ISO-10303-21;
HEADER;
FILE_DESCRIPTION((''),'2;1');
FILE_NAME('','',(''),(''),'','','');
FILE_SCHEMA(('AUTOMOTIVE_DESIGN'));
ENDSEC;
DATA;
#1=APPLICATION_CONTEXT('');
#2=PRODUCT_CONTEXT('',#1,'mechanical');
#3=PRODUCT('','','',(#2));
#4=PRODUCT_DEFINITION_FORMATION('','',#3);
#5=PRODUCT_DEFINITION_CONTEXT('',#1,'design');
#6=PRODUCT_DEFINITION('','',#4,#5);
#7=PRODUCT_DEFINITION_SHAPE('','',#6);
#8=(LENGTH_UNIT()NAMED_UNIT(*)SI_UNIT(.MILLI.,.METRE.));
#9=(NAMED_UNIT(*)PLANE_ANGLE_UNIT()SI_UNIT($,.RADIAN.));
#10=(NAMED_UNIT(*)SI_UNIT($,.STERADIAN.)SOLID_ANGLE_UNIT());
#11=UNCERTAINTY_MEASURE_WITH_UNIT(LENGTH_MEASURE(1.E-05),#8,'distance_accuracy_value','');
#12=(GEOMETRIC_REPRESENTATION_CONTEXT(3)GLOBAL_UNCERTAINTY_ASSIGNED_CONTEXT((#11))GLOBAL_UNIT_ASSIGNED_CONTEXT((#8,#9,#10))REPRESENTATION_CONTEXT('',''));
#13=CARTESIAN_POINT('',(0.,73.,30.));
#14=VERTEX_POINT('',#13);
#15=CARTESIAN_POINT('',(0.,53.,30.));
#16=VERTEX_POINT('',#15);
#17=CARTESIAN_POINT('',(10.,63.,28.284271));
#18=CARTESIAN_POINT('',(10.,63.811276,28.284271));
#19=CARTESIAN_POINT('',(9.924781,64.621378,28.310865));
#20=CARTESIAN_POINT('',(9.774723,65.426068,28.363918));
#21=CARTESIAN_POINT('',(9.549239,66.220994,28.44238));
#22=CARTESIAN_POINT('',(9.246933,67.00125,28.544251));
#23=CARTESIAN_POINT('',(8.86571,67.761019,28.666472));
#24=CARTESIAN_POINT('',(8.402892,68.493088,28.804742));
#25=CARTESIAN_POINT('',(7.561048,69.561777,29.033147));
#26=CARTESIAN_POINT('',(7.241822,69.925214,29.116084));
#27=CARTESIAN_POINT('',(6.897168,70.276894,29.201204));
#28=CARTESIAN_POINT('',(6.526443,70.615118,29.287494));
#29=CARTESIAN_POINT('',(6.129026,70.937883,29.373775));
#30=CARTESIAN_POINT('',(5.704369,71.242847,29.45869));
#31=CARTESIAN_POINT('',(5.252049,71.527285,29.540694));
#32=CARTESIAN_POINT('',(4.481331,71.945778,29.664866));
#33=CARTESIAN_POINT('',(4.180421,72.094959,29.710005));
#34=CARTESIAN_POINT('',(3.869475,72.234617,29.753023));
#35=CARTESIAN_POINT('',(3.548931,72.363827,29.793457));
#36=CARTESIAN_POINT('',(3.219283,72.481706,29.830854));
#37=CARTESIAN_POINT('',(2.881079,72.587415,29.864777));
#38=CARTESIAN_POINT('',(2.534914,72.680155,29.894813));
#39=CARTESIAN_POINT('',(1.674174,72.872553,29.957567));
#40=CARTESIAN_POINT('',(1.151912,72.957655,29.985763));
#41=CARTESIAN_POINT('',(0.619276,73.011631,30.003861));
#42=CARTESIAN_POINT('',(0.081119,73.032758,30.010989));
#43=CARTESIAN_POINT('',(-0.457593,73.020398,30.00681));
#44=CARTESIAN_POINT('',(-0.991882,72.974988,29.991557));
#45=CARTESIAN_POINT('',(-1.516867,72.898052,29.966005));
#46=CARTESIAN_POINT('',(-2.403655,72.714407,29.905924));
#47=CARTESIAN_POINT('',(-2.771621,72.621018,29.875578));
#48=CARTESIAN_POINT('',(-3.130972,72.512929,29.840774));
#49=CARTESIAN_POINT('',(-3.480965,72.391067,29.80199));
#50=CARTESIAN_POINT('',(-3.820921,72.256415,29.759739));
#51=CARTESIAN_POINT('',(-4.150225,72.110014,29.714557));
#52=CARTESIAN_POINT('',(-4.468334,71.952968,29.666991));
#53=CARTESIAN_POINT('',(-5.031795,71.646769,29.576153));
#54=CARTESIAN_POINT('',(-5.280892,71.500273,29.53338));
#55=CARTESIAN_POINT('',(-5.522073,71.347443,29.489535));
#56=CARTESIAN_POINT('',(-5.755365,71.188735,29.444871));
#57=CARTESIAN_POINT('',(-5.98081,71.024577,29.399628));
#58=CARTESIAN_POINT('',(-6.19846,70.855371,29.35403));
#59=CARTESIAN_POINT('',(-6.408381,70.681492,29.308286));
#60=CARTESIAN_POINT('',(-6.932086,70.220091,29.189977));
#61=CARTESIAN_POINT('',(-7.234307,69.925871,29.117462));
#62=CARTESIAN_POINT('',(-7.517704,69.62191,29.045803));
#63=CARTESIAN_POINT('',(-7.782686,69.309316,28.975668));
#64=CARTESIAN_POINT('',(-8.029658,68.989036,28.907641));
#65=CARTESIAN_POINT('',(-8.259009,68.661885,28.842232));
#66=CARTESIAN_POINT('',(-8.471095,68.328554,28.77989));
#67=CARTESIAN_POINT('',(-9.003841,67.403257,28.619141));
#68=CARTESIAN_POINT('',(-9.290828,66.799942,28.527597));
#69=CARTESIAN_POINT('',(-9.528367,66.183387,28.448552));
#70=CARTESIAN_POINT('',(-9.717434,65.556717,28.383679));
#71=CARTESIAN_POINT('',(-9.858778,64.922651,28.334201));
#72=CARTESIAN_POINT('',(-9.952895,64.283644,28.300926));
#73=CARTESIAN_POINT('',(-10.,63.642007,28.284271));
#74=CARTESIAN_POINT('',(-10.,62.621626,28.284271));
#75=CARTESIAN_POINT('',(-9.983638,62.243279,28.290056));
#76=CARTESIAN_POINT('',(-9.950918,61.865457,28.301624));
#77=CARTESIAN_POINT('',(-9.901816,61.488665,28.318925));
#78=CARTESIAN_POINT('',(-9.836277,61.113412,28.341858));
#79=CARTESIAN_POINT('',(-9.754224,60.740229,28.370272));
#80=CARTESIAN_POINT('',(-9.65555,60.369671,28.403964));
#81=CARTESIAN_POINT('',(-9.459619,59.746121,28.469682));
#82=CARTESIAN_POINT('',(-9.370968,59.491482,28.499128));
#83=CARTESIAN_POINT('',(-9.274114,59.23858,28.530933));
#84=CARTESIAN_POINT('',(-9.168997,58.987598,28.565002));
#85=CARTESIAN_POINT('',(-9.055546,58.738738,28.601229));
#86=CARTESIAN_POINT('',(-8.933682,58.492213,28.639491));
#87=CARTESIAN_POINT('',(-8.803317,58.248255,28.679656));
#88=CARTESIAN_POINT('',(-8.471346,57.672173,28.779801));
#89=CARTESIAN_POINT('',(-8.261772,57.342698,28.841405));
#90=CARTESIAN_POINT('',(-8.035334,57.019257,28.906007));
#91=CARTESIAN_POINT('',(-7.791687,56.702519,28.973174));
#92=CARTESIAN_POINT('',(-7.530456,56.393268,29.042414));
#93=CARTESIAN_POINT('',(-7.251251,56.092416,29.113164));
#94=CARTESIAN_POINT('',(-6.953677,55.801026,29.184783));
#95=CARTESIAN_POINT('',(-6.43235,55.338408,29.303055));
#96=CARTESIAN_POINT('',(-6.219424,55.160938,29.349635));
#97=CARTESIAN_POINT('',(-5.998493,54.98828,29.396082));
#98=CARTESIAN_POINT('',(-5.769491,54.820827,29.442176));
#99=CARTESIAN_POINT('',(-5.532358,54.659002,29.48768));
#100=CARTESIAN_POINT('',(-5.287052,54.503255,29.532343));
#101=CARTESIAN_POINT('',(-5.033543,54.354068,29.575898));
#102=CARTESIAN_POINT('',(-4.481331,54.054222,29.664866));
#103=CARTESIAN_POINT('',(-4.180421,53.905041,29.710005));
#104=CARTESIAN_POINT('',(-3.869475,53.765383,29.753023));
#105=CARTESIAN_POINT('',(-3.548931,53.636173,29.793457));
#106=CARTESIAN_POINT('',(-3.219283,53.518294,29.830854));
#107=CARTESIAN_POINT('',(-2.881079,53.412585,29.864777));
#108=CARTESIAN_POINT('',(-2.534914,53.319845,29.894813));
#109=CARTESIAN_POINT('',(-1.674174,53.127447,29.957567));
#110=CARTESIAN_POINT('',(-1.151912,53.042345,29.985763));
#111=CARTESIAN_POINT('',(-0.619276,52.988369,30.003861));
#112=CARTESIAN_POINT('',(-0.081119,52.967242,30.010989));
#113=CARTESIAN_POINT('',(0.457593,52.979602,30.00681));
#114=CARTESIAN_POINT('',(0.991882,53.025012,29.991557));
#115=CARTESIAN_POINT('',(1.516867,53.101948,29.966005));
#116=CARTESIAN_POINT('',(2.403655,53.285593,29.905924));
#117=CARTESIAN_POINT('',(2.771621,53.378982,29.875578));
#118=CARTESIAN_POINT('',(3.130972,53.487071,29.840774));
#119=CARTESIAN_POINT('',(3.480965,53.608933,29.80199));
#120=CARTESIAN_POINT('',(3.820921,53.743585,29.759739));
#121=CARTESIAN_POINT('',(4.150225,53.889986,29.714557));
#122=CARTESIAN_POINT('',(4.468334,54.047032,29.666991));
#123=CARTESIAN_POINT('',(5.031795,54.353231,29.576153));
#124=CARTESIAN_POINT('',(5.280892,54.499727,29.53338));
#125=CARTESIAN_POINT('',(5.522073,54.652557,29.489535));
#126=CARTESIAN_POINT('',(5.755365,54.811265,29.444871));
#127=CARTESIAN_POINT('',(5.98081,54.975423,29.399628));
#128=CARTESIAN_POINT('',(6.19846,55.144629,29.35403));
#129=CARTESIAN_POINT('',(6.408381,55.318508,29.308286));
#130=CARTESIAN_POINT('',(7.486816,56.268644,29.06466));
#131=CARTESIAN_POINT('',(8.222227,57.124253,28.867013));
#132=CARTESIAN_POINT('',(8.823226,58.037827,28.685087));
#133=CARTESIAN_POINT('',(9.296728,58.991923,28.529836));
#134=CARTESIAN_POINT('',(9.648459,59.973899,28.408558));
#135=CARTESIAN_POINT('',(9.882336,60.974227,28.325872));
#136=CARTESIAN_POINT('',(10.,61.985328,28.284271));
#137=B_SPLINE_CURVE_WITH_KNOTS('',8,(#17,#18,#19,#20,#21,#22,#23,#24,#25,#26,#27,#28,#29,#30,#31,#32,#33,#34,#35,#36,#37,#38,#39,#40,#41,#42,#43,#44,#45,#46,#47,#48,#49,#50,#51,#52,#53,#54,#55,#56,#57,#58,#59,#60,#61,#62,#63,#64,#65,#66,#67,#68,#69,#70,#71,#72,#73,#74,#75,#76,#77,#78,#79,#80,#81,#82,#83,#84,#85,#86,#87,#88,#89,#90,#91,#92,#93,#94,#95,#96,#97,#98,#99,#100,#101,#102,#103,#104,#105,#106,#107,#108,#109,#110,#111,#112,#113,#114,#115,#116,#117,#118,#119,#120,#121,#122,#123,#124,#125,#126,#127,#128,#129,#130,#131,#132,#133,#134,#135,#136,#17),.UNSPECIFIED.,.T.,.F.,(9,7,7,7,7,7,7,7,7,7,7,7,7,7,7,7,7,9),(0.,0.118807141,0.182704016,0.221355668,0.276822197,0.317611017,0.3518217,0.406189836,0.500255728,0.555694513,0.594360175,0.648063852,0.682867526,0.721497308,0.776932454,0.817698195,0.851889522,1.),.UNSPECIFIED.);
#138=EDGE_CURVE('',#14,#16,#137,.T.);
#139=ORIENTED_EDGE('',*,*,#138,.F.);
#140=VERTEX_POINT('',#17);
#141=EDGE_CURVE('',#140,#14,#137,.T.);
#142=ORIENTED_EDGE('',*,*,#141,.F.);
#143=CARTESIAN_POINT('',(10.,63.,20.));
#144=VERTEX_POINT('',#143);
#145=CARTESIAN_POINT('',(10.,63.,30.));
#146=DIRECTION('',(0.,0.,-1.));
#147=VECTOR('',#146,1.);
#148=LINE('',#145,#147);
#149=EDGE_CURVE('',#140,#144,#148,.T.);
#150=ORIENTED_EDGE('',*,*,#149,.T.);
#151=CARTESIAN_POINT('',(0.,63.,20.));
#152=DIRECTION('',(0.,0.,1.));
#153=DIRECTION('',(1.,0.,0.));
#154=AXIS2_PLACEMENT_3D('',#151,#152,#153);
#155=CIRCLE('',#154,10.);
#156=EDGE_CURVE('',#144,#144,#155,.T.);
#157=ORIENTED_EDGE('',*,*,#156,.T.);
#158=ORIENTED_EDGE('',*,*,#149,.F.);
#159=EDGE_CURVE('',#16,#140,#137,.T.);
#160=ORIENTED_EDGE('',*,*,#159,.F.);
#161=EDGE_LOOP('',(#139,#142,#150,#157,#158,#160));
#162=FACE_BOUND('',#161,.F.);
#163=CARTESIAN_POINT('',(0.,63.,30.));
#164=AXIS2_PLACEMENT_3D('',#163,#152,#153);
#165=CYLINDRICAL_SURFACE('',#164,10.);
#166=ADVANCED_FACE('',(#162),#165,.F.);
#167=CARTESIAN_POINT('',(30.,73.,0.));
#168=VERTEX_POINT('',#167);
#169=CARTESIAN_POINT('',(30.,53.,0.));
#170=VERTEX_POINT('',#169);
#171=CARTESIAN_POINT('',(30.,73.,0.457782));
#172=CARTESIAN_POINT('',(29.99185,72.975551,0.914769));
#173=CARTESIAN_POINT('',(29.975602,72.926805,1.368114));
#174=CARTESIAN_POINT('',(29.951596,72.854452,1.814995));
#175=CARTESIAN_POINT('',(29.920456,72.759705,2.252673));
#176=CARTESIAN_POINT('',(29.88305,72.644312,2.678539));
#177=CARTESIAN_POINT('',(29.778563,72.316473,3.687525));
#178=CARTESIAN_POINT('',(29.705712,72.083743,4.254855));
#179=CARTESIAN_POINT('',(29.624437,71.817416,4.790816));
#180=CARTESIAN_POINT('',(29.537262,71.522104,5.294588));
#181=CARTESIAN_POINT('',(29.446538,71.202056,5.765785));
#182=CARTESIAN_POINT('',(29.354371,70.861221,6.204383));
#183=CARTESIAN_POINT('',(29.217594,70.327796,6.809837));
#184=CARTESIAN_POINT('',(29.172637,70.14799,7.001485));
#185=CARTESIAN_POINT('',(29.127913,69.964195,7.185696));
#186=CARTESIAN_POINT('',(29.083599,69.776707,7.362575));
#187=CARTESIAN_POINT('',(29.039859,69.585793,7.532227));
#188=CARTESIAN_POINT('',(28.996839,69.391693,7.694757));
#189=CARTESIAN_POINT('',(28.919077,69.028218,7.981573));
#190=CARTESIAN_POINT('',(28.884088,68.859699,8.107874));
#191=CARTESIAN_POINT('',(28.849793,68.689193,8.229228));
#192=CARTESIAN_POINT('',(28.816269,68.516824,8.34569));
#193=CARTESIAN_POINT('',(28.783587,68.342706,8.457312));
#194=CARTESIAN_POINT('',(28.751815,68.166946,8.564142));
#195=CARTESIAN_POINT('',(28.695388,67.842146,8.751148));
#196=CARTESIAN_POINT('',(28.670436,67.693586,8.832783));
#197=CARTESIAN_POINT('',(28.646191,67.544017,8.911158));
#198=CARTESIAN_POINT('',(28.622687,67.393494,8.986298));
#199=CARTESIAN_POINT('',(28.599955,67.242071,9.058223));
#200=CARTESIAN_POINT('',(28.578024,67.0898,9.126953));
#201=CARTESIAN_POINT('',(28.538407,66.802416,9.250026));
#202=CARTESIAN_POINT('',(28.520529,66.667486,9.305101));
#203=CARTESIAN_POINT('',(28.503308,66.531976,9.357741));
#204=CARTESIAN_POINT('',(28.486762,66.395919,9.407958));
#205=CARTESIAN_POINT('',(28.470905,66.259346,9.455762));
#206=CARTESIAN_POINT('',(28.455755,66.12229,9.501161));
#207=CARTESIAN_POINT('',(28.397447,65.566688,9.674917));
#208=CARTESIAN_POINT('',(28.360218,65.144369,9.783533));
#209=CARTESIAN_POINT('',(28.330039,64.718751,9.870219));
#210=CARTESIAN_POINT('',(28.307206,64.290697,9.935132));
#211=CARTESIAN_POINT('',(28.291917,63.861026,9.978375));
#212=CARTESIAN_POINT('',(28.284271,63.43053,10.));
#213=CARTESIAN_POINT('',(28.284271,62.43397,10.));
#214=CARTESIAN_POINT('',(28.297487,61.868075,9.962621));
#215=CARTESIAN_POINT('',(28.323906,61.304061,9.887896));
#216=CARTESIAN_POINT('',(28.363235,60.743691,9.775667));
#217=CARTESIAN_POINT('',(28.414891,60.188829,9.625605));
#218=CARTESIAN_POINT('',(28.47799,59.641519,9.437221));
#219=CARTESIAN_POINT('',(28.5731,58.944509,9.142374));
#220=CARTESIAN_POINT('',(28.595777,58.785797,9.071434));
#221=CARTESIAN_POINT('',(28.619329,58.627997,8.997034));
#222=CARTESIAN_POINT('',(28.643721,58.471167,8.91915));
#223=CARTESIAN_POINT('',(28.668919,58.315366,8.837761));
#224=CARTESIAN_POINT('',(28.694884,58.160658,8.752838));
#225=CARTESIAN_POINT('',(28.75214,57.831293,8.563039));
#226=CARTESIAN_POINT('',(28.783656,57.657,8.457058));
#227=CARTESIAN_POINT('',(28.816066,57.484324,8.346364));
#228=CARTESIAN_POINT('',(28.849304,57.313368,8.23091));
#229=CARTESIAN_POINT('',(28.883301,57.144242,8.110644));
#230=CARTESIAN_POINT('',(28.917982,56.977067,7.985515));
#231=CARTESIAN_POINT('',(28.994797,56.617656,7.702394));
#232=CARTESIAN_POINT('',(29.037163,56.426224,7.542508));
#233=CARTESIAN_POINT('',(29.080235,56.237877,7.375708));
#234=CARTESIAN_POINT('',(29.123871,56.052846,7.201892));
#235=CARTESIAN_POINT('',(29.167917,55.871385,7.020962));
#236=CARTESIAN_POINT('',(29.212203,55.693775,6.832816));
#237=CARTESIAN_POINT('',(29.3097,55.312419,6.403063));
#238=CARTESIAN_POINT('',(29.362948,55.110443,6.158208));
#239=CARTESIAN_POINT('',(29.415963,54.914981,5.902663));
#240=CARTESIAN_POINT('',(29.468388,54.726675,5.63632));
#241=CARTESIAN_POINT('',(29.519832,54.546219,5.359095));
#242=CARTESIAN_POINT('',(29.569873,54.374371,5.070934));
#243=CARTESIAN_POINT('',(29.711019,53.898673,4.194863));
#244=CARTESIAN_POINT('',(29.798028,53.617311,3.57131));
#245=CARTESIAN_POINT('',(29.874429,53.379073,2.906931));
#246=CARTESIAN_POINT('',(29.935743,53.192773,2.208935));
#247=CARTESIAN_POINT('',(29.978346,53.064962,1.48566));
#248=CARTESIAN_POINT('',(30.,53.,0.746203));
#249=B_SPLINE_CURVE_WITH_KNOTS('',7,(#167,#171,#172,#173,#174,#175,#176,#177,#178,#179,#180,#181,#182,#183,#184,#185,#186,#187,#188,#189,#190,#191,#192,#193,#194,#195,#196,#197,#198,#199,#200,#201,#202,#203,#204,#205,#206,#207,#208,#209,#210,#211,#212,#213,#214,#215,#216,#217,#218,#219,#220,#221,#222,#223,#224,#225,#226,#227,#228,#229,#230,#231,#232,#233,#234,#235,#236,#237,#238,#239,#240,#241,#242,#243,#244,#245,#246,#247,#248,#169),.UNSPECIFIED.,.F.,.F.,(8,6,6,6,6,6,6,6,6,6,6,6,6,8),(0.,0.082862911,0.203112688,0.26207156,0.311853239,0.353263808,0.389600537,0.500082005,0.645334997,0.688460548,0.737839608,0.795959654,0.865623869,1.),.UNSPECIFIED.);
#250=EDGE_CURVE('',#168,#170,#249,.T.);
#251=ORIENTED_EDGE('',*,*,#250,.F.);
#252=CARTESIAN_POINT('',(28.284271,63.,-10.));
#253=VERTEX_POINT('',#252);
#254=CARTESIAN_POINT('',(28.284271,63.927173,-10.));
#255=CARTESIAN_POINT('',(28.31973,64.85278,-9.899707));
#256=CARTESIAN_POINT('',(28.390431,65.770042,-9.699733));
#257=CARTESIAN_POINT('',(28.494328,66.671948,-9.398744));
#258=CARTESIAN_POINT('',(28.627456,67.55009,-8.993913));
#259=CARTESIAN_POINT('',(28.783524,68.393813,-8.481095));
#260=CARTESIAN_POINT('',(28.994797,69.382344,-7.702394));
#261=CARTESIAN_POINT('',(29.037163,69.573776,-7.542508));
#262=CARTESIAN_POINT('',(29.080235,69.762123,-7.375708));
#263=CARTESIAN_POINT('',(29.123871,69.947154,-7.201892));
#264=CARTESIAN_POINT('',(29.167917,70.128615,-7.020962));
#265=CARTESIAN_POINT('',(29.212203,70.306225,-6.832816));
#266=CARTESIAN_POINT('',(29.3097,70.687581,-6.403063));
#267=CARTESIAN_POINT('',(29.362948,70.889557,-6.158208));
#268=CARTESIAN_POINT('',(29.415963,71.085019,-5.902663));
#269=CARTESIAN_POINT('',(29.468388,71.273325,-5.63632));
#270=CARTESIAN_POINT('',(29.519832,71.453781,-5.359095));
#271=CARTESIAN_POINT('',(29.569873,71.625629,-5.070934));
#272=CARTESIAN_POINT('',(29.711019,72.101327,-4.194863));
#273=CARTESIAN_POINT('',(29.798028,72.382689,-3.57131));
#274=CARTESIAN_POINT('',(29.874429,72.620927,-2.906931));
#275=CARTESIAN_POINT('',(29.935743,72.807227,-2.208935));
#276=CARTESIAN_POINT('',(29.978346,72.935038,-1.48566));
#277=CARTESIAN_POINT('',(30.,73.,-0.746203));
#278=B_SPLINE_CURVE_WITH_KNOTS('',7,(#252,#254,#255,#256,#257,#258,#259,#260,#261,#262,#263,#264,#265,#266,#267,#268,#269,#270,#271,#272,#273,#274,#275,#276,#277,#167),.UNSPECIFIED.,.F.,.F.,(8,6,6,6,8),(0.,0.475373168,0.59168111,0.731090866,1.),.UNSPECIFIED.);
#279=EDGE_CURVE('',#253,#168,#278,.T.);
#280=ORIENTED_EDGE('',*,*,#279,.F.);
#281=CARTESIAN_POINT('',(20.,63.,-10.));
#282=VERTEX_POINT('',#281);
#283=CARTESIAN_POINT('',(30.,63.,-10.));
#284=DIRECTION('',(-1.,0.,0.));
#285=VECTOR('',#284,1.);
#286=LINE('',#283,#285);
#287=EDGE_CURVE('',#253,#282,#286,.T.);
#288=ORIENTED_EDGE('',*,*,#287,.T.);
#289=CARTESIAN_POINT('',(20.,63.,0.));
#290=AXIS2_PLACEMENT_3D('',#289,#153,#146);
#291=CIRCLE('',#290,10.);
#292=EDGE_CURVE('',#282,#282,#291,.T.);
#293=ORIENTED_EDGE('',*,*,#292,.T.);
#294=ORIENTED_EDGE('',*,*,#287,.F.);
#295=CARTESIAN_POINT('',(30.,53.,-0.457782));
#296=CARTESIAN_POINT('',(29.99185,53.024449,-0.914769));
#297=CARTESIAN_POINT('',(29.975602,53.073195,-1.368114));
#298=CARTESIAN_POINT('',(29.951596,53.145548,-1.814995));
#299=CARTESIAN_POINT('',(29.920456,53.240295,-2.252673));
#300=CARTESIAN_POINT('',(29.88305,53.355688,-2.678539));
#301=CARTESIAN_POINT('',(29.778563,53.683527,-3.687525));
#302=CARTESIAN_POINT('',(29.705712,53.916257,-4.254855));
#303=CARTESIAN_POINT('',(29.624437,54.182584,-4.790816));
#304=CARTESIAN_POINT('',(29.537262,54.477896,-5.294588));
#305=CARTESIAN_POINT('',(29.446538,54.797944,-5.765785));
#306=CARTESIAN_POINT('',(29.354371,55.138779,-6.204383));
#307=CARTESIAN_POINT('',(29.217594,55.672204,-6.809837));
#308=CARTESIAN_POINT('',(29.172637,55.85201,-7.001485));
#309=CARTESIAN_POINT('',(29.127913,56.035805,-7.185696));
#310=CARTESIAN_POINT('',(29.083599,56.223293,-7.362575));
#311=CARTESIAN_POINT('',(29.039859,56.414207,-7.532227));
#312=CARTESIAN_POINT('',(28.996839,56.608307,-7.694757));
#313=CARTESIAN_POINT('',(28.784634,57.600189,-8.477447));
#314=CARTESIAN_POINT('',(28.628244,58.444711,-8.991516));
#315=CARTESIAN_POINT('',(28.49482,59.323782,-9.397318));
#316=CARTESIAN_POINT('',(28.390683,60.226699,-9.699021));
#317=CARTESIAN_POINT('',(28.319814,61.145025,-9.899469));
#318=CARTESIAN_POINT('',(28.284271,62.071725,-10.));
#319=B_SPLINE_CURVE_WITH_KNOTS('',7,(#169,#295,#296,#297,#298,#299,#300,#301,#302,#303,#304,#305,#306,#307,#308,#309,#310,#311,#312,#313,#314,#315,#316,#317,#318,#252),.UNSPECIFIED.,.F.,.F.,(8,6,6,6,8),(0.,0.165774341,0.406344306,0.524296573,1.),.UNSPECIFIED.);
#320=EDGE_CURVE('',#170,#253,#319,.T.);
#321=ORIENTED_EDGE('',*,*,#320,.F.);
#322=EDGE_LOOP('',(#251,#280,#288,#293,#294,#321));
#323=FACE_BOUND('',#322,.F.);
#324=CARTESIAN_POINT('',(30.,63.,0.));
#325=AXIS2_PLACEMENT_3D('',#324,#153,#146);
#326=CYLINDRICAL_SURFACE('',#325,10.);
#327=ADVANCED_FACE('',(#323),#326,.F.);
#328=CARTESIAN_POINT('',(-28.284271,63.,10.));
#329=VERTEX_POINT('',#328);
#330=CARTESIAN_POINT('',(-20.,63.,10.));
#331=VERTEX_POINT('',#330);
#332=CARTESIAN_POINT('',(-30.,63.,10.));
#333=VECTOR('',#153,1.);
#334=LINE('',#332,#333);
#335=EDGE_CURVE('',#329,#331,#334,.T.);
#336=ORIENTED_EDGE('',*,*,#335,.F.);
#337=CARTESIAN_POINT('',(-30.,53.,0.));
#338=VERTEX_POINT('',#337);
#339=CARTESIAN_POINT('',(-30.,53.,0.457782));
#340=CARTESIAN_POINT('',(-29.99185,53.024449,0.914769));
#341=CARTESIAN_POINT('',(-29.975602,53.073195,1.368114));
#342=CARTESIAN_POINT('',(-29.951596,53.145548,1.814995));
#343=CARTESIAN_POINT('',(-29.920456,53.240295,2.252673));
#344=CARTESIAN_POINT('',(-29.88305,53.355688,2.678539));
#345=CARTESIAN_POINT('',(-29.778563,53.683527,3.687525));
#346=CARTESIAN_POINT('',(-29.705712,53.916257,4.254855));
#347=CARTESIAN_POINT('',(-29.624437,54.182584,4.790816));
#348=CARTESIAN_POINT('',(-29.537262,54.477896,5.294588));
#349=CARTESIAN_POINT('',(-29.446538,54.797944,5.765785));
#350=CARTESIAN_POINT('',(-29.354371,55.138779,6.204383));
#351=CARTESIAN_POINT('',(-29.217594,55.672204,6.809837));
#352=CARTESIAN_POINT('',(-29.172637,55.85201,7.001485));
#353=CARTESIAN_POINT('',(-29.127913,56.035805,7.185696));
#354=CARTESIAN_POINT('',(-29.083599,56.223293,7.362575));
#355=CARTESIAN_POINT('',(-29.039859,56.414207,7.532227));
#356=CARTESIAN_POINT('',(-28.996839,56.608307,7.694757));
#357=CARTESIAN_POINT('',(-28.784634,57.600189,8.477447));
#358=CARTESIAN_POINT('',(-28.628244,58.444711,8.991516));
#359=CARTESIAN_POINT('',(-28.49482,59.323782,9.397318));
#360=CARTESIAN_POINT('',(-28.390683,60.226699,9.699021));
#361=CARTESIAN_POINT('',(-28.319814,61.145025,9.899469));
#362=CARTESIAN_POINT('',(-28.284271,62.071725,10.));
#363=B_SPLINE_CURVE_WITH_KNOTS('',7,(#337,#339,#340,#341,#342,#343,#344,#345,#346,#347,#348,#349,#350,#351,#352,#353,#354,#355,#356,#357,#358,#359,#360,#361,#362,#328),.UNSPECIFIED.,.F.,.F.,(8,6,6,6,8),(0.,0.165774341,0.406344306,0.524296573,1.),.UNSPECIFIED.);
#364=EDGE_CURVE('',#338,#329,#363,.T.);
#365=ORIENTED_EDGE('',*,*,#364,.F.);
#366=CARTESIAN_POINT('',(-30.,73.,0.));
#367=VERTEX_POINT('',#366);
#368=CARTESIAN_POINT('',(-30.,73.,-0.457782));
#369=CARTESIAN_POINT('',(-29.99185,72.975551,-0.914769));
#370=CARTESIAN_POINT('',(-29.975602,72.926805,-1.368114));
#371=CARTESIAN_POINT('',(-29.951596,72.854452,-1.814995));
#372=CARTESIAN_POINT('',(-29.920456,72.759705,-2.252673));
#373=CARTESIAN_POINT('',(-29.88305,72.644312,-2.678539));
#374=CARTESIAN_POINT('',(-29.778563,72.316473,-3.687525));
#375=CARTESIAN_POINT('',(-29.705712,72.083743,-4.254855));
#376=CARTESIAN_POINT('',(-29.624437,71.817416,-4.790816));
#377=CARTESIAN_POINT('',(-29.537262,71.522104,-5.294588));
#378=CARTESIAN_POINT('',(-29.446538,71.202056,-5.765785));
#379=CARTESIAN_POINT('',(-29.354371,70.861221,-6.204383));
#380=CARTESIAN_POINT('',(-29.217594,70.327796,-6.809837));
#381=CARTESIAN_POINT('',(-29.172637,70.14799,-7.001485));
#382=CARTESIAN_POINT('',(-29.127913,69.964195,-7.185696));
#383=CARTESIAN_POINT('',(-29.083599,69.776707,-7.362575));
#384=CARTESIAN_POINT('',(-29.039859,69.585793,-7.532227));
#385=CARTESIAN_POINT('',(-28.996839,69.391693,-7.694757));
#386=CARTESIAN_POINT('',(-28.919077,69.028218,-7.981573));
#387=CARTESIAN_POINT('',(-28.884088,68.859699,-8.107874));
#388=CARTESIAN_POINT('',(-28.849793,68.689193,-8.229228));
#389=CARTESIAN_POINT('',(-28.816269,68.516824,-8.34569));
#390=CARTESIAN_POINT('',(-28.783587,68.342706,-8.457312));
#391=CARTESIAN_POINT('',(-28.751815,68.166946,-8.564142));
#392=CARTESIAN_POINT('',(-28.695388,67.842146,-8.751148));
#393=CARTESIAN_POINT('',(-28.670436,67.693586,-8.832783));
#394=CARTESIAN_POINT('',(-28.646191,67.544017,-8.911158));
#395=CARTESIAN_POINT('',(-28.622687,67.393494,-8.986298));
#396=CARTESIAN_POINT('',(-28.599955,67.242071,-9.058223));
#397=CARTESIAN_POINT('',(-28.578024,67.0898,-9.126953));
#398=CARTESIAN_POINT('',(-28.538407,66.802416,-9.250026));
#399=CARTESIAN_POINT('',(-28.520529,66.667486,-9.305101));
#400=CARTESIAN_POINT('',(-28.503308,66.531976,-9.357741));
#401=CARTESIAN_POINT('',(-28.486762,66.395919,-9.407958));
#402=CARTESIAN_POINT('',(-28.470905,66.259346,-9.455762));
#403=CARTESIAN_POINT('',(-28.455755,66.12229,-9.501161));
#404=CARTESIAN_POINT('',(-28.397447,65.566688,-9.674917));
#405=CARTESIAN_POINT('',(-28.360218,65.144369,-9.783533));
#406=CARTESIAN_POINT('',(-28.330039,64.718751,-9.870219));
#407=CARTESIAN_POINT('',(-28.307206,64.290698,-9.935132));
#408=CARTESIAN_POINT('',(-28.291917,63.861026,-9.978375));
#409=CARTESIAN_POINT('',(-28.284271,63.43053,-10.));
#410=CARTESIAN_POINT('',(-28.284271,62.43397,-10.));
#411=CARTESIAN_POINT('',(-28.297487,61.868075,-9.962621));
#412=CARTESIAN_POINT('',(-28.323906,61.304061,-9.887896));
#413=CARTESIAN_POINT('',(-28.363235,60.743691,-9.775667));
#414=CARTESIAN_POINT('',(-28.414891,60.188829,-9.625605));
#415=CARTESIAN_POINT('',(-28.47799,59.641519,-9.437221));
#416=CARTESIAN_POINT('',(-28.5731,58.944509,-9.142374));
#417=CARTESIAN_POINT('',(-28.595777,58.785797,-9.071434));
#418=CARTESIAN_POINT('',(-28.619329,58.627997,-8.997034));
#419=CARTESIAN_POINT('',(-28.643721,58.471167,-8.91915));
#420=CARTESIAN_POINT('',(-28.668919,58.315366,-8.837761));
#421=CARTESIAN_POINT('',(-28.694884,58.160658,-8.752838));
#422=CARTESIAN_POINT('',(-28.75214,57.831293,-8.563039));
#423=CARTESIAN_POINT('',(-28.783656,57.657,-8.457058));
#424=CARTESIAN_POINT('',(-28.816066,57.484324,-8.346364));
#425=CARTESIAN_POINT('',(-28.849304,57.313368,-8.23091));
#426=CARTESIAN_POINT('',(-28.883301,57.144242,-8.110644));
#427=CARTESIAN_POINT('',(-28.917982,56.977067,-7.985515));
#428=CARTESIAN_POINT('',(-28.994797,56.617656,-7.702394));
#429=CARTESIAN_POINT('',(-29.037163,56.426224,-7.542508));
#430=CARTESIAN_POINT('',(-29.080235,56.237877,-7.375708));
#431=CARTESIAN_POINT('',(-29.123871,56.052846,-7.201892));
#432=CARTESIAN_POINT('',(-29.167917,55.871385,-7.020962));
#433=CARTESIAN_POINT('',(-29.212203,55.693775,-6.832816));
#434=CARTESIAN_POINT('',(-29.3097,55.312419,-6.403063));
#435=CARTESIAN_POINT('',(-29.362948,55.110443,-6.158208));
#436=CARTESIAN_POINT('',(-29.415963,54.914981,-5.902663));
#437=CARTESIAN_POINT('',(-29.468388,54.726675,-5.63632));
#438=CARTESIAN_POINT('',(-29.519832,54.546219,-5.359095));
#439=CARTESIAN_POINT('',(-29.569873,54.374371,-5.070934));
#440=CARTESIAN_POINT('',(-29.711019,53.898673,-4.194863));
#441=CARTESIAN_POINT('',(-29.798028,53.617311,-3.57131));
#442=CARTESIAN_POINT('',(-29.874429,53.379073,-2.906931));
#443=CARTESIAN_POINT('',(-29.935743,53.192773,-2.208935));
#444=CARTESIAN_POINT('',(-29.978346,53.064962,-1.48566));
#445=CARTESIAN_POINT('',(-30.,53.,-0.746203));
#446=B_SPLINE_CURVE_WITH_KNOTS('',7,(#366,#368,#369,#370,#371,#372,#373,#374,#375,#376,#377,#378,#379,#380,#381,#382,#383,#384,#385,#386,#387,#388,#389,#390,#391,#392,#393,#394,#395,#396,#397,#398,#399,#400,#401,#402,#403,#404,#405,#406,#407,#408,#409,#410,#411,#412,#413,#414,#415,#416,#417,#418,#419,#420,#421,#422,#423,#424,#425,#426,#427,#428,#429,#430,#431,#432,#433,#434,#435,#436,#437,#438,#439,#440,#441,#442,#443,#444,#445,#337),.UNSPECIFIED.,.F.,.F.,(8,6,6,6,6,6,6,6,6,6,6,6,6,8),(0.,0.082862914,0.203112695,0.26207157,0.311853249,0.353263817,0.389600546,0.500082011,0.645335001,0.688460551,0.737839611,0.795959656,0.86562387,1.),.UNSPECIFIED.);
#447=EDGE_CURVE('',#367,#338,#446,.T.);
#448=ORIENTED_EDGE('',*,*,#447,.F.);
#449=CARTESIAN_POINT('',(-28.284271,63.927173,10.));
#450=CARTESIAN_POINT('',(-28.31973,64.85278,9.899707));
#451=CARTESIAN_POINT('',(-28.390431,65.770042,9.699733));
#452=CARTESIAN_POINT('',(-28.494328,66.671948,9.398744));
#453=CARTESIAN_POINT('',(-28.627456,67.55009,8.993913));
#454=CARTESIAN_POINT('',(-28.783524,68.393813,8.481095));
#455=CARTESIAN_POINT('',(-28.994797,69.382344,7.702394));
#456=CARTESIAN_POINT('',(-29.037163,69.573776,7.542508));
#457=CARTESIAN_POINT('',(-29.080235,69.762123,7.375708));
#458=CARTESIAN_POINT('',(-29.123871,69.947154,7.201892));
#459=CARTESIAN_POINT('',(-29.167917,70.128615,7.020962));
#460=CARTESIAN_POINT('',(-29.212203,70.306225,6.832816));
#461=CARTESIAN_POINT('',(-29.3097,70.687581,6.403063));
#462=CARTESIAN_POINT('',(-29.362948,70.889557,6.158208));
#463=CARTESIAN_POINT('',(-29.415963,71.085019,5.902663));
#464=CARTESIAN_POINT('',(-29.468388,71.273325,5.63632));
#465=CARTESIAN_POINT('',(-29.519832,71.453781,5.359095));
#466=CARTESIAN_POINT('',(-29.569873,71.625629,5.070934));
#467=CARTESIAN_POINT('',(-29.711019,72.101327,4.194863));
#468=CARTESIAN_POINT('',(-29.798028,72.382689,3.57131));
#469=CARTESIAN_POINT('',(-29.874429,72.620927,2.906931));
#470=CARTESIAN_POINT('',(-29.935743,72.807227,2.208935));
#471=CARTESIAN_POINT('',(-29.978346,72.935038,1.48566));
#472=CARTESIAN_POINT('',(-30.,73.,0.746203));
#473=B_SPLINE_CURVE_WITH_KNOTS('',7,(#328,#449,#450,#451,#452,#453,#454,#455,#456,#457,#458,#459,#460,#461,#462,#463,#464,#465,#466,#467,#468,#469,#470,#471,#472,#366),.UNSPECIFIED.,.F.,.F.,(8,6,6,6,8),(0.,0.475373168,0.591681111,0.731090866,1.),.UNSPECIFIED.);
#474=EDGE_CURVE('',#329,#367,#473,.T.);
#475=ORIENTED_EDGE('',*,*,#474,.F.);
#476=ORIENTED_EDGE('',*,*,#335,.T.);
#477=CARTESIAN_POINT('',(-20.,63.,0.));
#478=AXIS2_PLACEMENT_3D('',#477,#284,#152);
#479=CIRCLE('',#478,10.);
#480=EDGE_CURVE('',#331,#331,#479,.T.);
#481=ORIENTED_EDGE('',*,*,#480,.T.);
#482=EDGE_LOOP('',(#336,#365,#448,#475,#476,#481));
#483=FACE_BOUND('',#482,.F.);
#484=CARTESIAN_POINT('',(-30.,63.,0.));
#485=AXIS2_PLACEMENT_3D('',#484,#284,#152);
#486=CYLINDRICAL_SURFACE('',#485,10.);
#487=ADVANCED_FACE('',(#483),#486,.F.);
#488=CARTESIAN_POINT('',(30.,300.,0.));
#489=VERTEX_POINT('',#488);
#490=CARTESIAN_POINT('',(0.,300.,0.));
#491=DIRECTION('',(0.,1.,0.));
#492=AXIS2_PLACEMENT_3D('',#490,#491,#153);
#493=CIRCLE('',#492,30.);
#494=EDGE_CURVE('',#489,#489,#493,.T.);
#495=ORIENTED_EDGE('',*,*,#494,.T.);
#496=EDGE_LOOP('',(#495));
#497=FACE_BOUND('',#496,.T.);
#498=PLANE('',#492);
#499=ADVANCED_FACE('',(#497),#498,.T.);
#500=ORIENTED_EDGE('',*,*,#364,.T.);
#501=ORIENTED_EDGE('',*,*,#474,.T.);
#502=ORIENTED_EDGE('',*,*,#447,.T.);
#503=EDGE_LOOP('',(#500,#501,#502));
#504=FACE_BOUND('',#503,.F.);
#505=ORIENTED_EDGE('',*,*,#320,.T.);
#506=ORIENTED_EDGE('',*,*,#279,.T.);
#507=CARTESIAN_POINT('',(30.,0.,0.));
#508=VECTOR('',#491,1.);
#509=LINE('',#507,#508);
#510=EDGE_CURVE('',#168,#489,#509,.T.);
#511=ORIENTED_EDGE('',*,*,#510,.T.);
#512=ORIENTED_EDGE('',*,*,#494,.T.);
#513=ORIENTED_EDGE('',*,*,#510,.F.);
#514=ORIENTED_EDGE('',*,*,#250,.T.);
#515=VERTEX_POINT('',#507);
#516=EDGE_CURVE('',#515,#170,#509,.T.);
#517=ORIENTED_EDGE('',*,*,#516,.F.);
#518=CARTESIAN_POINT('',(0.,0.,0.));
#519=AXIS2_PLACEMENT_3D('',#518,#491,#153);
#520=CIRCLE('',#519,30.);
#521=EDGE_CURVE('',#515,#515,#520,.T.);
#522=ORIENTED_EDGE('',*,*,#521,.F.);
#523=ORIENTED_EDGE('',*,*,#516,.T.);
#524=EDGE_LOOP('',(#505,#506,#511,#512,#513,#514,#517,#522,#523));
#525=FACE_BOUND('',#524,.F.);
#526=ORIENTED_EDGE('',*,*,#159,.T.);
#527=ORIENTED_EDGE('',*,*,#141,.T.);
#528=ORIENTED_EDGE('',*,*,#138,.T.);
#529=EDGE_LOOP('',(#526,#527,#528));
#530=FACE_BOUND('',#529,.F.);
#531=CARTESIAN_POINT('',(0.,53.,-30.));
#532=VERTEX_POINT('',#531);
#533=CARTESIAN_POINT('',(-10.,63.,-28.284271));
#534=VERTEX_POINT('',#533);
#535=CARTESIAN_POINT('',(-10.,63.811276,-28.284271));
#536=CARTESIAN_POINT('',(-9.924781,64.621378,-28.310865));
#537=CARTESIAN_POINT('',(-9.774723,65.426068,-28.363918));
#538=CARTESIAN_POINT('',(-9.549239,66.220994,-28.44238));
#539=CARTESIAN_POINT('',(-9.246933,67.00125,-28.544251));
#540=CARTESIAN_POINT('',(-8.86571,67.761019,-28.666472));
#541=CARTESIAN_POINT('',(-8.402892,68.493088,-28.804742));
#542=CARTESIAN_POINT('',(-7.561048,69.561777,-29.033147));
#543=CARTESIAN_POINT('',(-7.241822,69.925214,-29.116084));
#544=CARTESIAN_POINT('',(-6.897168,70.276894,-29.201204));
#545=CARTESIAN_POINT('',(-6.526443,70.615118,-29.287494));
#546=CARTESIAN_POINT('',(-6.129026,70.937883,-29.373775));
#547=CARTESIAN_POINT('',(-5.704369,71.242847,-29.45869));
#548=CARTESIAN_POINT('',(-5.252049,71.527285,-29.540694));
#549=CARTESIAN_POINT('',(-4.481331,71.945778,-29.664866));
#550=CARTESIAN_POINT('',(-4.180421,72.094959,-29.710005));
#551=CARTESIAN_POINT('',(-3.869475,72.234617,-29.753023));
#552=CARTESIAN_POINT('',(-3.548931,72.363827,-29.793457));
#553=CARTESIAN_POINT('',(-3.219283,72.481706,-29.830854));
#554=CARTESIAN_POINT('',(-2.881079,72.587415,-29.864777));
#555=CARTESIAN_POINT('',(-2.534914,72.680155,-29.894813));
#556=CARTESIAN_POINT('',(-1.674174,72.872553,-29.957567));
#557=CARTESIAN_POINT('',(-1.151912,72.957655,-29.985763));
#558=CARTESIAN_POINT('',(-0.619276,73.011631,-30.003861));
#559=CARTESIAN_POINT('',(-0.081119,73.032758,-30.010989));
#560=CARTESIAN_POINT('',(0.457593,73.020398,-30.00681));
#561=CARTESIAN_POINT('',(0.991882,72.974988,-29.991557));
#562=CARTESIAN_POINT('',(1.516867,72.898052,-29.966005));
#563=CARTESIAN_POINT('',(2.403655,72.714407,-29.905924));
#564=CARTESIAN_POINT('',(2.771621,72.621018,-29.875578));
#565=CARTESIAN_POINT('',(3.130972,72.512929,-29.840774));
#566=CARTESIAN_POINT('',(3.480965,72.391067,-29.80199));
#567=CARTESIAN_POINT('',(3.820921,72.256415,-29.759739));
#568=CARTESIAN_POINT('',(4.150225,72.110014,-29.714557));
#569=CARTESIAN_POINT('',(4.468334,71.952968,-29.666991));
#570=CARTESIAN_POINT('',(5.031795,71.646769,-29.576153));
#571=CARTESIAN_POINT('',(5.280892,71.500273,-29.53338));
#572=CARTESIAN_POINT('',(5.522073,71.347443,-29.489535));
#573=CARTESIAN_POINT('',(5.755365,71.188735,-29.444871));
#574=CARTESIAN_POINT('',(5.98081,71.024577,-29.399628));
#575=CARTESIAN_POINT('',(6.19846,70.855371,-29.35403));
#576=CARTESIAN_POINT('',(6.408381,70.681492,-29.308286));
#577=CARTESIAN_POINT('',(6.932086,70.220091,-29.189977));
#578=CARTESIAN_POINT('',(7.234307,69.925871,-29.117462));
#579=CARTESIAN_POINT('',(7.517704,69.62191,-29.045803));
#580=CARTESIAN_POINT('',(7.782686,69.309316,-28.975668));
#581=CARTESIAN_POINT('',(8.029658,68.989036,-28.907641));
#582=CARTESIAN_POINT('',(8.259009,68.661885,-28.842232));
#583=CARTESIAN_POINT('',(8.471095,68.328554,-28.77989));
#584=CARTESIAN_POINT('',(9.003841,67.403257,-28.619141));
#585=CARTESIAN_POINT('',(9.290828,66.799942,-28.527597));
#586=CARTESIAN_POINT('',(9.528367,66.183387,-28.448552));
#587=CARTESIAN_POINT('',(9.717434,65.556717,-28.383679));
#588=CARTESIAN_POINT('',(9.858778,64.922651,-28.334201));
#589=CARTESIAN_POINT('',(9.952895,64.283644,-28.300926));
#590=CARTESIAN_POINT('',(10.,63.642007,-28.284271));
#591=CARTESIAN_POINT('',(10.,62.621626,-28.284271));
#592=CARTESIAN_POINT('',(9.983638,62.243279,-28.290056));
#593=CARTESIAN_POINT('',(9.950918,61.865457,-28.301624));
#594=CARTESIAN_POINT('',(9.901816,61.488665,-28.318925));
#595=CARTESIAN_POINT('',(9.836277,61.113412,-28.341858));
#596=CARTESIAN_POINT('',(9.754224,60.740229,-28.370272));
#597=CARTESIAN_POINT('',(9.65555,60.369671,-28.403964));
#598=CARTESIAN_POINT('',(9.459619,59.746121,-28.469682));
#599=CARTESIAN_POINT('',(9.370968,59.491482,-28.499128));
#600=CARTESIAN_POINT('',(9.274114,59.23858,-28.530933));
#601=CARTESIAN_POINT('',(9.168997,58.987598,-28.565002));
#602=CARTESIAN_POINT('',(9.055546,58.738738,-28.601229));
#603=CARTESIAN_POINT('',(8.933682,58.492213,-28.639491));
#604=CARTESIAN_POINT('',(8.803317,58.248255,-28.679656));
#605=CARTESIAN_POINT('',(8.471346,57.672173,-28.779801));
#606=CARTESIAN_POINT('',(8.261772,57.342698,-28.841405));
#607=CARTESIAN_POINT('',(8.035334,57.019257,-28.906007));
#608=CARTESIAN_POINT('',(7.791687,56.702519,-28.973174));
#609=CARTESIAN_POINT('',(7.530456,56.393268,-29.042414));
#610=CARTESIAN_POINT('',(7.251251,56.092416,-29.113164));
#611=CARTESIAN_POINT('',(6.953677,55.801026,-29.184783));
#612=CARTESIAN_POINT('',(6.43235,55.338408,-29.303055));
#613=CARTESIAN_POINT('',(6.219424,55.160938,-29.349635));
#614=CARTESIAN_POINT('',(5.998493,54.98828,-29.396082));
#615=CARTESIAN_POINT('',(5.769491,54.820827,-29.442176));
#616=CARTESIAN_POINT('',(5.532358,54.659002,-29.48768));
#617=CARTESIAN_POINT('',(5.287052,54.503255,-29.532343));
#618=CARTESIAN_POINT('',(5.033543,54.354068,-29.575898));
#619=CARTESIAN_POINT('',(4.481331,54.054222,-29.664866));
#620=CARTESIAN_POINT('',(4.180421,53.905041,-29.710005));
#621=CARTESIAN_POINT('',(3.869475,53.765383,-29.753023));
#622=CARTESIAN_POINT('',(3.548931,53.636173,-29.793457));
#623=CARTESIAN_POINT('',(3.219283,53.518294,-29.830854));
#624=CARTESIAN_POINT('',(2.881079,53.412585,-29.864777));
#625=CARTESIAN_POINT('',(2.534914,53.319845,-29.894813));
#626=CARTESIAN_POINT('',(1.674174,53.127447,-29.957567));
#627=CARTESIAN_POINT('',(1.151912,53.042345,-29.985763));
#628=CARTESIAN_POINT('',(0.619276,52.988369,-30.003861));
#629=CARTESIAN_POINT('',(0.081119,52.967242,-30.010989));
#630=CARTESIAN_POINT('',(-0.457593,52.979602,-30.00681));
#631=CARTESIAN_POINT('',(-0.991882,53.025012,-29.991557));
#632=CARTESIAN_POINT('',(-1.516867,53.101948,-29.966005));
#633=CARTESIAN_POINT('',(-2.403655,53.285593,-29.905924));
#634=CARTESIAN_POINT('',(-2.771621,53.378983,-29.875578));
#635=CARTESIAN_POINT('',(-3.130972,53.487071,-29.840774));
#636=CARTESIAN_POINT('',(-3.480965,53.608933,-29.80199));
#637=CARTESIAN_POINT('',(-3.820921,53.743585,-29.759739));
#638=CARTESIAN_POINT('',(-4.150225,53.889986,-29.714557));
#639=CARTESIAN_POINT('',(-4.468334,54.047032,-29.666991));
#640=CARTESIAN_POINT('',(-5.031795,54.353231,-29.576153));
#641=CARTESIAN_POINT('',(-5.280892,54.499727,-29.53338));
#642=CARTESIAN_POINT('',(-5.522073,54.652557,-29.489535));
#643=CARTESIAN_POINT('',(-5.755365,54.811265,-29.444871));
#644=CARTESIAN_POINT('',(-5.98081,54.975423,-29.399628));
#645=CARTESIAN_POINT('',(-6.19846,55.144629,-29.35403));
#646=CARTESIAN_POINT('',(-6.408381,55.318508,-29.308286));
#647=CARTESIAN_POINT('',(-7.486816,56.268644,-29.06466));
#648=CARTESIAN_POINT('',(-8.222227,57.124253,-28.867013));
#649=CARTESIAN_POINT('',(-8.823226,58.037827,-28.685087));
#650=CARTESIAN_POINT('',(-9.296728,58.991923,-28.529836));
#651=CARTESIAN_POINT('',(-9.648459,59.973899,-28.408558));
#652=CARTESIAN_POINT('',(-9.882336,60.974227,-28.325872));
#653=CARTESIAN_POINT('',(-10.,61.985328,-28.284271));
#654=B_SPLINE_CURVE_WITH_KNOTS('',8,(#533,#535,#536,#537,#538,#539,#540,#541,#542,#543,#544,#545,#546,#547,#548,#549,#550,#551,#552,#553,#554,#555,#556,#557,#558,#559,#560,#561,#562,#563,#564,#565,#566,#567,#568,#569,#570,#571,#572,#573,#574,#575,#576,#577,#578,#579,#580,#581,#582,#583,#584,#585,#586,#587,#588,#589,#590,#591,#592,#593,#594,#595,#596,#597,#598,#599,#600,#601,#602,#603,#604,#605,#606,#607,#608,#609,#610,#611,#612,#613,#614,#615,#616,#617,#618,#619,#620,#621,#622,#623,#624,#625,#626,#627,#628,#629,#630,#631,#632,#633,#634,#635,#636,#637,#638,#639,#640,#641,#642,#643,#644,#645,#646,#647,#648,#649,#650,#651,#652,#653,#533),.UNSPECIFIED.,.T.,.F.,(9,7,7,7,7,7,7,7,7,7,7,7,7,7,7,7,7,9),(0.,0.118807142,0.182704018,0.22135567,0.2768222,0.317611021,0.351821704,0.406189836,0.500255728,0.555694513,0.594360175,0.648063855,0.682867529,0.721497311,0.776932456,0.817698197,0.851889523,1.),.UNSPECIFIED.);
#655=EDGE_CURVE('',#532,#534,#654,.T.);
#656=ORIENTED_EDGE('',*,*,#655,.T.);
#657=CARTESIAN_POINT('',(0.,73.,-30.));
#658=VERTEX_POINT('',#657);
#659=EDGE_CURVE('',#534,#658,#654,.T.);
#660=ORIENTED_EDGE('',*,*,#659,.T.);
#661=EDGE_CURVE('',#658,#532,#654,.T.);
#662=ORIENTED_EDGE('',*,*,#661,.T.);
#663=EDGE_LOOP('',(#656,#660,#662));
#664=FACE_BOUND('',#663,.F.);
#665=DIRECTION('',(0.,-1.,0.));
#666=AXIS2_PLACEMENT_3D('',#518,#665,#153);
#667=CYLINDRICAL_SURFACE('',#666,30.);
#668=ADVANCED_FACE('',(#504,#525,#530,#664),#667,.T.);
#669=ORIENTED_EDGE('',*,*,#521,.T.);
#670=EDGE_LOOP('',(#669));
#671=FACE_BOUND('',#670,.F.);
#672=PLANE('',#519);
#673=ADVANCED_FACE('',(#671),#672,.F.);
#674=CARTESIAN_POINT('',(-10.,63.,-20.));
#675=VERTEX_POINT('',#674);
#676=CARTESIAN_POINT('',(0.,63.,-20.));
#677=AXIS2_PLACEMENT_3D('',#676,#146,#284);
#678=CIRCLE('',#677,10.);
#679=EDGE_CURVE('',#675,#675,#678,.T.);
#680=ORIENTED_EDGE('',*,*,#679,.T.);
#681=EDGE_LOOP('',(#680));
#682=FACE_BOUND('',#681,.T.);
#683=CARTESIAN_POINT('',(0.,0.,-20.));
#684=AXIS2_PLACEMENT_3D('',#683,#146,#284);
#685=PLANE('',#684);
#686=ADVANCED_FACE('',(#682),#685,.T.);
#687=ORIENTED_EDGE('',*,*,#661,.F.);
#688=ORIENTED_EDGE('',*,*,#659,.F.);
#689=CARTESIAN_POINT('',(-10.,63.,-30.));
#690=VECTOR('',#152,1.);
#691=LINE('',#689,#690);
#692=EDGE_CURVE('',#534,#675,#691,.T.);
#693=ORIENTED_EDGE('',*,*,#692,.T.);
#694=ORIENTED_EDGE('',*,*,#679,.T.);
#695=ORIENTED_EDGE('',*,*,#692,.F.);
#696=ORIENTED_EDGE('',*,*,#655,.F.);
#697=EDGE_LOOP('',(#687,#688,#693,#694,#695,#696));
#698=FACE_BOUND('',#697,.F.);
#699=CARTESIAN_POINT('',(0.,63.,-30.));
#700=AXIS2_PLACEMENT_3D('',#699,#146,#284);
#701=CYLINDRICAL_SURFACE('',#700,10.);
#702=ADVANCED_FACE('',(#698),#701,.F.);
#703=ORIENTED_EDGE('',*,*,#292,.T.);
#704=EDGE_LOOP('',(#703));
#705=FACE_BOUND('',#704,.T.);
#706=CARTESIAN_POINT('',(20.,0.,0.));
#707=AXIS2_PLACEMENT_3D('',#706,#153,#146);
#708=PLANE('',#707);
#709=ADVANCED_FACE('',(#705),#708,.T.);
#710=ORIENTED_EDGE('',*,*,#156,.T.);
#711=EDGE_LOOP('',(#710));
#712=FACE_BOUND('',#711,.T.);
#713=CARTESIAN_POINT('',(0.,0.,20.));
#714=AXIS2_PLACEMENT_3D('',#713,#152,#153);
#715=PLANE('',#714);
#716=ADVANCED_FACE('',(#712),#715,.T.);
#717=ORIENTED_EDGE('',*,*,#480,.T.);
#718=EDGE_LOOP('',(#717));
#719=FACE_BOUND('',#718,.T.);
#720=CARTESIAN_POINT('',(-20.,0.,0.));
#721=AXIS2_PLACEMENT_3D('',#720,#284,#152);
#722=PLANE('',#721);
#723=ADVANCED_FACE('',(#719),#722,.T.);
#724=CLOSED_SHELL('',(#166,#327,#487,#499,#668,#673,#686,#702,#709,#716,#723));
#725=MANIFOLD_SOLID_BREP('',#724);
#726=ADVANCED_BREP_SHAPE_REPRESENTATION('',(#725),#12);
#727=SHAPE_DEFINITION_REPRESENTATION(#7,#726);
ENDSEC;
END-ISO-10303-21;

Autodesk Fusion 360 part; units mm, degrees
sketch "Sketch1" plane through (0, 0, 0) normal (0, 1, 0) x (1, 0, 0)
  circle A0 centre (0, 0) radius 30
  dimension "d1" = 60
extrude "Extrude1" add sketch "Sketch1" along normal blind 300
ref_plane "WorkPlane2" through (0, 0, 30) normal (0, 0, 1) x (1, 0, 0)
sketch "Sketch5" plane through (0, 0, 30) normal (0, 0, 1) x (1, 0, 0)
  circle A0 centre (0, 63) radius 10
  dimension "d16" = 63
  dimension "d17" = 20
extrude "Extrude5" cut sketch "Sketch5" against normal blind 10
pattern_circular "C-Pattern2" count 4 over 360 about axis through (0, 1.75, 0) along (0, 1, 0) of "Extrude5"
thread "Thread1"
thread "Thread2"
thread "Thread3"
thread "Thread4"
